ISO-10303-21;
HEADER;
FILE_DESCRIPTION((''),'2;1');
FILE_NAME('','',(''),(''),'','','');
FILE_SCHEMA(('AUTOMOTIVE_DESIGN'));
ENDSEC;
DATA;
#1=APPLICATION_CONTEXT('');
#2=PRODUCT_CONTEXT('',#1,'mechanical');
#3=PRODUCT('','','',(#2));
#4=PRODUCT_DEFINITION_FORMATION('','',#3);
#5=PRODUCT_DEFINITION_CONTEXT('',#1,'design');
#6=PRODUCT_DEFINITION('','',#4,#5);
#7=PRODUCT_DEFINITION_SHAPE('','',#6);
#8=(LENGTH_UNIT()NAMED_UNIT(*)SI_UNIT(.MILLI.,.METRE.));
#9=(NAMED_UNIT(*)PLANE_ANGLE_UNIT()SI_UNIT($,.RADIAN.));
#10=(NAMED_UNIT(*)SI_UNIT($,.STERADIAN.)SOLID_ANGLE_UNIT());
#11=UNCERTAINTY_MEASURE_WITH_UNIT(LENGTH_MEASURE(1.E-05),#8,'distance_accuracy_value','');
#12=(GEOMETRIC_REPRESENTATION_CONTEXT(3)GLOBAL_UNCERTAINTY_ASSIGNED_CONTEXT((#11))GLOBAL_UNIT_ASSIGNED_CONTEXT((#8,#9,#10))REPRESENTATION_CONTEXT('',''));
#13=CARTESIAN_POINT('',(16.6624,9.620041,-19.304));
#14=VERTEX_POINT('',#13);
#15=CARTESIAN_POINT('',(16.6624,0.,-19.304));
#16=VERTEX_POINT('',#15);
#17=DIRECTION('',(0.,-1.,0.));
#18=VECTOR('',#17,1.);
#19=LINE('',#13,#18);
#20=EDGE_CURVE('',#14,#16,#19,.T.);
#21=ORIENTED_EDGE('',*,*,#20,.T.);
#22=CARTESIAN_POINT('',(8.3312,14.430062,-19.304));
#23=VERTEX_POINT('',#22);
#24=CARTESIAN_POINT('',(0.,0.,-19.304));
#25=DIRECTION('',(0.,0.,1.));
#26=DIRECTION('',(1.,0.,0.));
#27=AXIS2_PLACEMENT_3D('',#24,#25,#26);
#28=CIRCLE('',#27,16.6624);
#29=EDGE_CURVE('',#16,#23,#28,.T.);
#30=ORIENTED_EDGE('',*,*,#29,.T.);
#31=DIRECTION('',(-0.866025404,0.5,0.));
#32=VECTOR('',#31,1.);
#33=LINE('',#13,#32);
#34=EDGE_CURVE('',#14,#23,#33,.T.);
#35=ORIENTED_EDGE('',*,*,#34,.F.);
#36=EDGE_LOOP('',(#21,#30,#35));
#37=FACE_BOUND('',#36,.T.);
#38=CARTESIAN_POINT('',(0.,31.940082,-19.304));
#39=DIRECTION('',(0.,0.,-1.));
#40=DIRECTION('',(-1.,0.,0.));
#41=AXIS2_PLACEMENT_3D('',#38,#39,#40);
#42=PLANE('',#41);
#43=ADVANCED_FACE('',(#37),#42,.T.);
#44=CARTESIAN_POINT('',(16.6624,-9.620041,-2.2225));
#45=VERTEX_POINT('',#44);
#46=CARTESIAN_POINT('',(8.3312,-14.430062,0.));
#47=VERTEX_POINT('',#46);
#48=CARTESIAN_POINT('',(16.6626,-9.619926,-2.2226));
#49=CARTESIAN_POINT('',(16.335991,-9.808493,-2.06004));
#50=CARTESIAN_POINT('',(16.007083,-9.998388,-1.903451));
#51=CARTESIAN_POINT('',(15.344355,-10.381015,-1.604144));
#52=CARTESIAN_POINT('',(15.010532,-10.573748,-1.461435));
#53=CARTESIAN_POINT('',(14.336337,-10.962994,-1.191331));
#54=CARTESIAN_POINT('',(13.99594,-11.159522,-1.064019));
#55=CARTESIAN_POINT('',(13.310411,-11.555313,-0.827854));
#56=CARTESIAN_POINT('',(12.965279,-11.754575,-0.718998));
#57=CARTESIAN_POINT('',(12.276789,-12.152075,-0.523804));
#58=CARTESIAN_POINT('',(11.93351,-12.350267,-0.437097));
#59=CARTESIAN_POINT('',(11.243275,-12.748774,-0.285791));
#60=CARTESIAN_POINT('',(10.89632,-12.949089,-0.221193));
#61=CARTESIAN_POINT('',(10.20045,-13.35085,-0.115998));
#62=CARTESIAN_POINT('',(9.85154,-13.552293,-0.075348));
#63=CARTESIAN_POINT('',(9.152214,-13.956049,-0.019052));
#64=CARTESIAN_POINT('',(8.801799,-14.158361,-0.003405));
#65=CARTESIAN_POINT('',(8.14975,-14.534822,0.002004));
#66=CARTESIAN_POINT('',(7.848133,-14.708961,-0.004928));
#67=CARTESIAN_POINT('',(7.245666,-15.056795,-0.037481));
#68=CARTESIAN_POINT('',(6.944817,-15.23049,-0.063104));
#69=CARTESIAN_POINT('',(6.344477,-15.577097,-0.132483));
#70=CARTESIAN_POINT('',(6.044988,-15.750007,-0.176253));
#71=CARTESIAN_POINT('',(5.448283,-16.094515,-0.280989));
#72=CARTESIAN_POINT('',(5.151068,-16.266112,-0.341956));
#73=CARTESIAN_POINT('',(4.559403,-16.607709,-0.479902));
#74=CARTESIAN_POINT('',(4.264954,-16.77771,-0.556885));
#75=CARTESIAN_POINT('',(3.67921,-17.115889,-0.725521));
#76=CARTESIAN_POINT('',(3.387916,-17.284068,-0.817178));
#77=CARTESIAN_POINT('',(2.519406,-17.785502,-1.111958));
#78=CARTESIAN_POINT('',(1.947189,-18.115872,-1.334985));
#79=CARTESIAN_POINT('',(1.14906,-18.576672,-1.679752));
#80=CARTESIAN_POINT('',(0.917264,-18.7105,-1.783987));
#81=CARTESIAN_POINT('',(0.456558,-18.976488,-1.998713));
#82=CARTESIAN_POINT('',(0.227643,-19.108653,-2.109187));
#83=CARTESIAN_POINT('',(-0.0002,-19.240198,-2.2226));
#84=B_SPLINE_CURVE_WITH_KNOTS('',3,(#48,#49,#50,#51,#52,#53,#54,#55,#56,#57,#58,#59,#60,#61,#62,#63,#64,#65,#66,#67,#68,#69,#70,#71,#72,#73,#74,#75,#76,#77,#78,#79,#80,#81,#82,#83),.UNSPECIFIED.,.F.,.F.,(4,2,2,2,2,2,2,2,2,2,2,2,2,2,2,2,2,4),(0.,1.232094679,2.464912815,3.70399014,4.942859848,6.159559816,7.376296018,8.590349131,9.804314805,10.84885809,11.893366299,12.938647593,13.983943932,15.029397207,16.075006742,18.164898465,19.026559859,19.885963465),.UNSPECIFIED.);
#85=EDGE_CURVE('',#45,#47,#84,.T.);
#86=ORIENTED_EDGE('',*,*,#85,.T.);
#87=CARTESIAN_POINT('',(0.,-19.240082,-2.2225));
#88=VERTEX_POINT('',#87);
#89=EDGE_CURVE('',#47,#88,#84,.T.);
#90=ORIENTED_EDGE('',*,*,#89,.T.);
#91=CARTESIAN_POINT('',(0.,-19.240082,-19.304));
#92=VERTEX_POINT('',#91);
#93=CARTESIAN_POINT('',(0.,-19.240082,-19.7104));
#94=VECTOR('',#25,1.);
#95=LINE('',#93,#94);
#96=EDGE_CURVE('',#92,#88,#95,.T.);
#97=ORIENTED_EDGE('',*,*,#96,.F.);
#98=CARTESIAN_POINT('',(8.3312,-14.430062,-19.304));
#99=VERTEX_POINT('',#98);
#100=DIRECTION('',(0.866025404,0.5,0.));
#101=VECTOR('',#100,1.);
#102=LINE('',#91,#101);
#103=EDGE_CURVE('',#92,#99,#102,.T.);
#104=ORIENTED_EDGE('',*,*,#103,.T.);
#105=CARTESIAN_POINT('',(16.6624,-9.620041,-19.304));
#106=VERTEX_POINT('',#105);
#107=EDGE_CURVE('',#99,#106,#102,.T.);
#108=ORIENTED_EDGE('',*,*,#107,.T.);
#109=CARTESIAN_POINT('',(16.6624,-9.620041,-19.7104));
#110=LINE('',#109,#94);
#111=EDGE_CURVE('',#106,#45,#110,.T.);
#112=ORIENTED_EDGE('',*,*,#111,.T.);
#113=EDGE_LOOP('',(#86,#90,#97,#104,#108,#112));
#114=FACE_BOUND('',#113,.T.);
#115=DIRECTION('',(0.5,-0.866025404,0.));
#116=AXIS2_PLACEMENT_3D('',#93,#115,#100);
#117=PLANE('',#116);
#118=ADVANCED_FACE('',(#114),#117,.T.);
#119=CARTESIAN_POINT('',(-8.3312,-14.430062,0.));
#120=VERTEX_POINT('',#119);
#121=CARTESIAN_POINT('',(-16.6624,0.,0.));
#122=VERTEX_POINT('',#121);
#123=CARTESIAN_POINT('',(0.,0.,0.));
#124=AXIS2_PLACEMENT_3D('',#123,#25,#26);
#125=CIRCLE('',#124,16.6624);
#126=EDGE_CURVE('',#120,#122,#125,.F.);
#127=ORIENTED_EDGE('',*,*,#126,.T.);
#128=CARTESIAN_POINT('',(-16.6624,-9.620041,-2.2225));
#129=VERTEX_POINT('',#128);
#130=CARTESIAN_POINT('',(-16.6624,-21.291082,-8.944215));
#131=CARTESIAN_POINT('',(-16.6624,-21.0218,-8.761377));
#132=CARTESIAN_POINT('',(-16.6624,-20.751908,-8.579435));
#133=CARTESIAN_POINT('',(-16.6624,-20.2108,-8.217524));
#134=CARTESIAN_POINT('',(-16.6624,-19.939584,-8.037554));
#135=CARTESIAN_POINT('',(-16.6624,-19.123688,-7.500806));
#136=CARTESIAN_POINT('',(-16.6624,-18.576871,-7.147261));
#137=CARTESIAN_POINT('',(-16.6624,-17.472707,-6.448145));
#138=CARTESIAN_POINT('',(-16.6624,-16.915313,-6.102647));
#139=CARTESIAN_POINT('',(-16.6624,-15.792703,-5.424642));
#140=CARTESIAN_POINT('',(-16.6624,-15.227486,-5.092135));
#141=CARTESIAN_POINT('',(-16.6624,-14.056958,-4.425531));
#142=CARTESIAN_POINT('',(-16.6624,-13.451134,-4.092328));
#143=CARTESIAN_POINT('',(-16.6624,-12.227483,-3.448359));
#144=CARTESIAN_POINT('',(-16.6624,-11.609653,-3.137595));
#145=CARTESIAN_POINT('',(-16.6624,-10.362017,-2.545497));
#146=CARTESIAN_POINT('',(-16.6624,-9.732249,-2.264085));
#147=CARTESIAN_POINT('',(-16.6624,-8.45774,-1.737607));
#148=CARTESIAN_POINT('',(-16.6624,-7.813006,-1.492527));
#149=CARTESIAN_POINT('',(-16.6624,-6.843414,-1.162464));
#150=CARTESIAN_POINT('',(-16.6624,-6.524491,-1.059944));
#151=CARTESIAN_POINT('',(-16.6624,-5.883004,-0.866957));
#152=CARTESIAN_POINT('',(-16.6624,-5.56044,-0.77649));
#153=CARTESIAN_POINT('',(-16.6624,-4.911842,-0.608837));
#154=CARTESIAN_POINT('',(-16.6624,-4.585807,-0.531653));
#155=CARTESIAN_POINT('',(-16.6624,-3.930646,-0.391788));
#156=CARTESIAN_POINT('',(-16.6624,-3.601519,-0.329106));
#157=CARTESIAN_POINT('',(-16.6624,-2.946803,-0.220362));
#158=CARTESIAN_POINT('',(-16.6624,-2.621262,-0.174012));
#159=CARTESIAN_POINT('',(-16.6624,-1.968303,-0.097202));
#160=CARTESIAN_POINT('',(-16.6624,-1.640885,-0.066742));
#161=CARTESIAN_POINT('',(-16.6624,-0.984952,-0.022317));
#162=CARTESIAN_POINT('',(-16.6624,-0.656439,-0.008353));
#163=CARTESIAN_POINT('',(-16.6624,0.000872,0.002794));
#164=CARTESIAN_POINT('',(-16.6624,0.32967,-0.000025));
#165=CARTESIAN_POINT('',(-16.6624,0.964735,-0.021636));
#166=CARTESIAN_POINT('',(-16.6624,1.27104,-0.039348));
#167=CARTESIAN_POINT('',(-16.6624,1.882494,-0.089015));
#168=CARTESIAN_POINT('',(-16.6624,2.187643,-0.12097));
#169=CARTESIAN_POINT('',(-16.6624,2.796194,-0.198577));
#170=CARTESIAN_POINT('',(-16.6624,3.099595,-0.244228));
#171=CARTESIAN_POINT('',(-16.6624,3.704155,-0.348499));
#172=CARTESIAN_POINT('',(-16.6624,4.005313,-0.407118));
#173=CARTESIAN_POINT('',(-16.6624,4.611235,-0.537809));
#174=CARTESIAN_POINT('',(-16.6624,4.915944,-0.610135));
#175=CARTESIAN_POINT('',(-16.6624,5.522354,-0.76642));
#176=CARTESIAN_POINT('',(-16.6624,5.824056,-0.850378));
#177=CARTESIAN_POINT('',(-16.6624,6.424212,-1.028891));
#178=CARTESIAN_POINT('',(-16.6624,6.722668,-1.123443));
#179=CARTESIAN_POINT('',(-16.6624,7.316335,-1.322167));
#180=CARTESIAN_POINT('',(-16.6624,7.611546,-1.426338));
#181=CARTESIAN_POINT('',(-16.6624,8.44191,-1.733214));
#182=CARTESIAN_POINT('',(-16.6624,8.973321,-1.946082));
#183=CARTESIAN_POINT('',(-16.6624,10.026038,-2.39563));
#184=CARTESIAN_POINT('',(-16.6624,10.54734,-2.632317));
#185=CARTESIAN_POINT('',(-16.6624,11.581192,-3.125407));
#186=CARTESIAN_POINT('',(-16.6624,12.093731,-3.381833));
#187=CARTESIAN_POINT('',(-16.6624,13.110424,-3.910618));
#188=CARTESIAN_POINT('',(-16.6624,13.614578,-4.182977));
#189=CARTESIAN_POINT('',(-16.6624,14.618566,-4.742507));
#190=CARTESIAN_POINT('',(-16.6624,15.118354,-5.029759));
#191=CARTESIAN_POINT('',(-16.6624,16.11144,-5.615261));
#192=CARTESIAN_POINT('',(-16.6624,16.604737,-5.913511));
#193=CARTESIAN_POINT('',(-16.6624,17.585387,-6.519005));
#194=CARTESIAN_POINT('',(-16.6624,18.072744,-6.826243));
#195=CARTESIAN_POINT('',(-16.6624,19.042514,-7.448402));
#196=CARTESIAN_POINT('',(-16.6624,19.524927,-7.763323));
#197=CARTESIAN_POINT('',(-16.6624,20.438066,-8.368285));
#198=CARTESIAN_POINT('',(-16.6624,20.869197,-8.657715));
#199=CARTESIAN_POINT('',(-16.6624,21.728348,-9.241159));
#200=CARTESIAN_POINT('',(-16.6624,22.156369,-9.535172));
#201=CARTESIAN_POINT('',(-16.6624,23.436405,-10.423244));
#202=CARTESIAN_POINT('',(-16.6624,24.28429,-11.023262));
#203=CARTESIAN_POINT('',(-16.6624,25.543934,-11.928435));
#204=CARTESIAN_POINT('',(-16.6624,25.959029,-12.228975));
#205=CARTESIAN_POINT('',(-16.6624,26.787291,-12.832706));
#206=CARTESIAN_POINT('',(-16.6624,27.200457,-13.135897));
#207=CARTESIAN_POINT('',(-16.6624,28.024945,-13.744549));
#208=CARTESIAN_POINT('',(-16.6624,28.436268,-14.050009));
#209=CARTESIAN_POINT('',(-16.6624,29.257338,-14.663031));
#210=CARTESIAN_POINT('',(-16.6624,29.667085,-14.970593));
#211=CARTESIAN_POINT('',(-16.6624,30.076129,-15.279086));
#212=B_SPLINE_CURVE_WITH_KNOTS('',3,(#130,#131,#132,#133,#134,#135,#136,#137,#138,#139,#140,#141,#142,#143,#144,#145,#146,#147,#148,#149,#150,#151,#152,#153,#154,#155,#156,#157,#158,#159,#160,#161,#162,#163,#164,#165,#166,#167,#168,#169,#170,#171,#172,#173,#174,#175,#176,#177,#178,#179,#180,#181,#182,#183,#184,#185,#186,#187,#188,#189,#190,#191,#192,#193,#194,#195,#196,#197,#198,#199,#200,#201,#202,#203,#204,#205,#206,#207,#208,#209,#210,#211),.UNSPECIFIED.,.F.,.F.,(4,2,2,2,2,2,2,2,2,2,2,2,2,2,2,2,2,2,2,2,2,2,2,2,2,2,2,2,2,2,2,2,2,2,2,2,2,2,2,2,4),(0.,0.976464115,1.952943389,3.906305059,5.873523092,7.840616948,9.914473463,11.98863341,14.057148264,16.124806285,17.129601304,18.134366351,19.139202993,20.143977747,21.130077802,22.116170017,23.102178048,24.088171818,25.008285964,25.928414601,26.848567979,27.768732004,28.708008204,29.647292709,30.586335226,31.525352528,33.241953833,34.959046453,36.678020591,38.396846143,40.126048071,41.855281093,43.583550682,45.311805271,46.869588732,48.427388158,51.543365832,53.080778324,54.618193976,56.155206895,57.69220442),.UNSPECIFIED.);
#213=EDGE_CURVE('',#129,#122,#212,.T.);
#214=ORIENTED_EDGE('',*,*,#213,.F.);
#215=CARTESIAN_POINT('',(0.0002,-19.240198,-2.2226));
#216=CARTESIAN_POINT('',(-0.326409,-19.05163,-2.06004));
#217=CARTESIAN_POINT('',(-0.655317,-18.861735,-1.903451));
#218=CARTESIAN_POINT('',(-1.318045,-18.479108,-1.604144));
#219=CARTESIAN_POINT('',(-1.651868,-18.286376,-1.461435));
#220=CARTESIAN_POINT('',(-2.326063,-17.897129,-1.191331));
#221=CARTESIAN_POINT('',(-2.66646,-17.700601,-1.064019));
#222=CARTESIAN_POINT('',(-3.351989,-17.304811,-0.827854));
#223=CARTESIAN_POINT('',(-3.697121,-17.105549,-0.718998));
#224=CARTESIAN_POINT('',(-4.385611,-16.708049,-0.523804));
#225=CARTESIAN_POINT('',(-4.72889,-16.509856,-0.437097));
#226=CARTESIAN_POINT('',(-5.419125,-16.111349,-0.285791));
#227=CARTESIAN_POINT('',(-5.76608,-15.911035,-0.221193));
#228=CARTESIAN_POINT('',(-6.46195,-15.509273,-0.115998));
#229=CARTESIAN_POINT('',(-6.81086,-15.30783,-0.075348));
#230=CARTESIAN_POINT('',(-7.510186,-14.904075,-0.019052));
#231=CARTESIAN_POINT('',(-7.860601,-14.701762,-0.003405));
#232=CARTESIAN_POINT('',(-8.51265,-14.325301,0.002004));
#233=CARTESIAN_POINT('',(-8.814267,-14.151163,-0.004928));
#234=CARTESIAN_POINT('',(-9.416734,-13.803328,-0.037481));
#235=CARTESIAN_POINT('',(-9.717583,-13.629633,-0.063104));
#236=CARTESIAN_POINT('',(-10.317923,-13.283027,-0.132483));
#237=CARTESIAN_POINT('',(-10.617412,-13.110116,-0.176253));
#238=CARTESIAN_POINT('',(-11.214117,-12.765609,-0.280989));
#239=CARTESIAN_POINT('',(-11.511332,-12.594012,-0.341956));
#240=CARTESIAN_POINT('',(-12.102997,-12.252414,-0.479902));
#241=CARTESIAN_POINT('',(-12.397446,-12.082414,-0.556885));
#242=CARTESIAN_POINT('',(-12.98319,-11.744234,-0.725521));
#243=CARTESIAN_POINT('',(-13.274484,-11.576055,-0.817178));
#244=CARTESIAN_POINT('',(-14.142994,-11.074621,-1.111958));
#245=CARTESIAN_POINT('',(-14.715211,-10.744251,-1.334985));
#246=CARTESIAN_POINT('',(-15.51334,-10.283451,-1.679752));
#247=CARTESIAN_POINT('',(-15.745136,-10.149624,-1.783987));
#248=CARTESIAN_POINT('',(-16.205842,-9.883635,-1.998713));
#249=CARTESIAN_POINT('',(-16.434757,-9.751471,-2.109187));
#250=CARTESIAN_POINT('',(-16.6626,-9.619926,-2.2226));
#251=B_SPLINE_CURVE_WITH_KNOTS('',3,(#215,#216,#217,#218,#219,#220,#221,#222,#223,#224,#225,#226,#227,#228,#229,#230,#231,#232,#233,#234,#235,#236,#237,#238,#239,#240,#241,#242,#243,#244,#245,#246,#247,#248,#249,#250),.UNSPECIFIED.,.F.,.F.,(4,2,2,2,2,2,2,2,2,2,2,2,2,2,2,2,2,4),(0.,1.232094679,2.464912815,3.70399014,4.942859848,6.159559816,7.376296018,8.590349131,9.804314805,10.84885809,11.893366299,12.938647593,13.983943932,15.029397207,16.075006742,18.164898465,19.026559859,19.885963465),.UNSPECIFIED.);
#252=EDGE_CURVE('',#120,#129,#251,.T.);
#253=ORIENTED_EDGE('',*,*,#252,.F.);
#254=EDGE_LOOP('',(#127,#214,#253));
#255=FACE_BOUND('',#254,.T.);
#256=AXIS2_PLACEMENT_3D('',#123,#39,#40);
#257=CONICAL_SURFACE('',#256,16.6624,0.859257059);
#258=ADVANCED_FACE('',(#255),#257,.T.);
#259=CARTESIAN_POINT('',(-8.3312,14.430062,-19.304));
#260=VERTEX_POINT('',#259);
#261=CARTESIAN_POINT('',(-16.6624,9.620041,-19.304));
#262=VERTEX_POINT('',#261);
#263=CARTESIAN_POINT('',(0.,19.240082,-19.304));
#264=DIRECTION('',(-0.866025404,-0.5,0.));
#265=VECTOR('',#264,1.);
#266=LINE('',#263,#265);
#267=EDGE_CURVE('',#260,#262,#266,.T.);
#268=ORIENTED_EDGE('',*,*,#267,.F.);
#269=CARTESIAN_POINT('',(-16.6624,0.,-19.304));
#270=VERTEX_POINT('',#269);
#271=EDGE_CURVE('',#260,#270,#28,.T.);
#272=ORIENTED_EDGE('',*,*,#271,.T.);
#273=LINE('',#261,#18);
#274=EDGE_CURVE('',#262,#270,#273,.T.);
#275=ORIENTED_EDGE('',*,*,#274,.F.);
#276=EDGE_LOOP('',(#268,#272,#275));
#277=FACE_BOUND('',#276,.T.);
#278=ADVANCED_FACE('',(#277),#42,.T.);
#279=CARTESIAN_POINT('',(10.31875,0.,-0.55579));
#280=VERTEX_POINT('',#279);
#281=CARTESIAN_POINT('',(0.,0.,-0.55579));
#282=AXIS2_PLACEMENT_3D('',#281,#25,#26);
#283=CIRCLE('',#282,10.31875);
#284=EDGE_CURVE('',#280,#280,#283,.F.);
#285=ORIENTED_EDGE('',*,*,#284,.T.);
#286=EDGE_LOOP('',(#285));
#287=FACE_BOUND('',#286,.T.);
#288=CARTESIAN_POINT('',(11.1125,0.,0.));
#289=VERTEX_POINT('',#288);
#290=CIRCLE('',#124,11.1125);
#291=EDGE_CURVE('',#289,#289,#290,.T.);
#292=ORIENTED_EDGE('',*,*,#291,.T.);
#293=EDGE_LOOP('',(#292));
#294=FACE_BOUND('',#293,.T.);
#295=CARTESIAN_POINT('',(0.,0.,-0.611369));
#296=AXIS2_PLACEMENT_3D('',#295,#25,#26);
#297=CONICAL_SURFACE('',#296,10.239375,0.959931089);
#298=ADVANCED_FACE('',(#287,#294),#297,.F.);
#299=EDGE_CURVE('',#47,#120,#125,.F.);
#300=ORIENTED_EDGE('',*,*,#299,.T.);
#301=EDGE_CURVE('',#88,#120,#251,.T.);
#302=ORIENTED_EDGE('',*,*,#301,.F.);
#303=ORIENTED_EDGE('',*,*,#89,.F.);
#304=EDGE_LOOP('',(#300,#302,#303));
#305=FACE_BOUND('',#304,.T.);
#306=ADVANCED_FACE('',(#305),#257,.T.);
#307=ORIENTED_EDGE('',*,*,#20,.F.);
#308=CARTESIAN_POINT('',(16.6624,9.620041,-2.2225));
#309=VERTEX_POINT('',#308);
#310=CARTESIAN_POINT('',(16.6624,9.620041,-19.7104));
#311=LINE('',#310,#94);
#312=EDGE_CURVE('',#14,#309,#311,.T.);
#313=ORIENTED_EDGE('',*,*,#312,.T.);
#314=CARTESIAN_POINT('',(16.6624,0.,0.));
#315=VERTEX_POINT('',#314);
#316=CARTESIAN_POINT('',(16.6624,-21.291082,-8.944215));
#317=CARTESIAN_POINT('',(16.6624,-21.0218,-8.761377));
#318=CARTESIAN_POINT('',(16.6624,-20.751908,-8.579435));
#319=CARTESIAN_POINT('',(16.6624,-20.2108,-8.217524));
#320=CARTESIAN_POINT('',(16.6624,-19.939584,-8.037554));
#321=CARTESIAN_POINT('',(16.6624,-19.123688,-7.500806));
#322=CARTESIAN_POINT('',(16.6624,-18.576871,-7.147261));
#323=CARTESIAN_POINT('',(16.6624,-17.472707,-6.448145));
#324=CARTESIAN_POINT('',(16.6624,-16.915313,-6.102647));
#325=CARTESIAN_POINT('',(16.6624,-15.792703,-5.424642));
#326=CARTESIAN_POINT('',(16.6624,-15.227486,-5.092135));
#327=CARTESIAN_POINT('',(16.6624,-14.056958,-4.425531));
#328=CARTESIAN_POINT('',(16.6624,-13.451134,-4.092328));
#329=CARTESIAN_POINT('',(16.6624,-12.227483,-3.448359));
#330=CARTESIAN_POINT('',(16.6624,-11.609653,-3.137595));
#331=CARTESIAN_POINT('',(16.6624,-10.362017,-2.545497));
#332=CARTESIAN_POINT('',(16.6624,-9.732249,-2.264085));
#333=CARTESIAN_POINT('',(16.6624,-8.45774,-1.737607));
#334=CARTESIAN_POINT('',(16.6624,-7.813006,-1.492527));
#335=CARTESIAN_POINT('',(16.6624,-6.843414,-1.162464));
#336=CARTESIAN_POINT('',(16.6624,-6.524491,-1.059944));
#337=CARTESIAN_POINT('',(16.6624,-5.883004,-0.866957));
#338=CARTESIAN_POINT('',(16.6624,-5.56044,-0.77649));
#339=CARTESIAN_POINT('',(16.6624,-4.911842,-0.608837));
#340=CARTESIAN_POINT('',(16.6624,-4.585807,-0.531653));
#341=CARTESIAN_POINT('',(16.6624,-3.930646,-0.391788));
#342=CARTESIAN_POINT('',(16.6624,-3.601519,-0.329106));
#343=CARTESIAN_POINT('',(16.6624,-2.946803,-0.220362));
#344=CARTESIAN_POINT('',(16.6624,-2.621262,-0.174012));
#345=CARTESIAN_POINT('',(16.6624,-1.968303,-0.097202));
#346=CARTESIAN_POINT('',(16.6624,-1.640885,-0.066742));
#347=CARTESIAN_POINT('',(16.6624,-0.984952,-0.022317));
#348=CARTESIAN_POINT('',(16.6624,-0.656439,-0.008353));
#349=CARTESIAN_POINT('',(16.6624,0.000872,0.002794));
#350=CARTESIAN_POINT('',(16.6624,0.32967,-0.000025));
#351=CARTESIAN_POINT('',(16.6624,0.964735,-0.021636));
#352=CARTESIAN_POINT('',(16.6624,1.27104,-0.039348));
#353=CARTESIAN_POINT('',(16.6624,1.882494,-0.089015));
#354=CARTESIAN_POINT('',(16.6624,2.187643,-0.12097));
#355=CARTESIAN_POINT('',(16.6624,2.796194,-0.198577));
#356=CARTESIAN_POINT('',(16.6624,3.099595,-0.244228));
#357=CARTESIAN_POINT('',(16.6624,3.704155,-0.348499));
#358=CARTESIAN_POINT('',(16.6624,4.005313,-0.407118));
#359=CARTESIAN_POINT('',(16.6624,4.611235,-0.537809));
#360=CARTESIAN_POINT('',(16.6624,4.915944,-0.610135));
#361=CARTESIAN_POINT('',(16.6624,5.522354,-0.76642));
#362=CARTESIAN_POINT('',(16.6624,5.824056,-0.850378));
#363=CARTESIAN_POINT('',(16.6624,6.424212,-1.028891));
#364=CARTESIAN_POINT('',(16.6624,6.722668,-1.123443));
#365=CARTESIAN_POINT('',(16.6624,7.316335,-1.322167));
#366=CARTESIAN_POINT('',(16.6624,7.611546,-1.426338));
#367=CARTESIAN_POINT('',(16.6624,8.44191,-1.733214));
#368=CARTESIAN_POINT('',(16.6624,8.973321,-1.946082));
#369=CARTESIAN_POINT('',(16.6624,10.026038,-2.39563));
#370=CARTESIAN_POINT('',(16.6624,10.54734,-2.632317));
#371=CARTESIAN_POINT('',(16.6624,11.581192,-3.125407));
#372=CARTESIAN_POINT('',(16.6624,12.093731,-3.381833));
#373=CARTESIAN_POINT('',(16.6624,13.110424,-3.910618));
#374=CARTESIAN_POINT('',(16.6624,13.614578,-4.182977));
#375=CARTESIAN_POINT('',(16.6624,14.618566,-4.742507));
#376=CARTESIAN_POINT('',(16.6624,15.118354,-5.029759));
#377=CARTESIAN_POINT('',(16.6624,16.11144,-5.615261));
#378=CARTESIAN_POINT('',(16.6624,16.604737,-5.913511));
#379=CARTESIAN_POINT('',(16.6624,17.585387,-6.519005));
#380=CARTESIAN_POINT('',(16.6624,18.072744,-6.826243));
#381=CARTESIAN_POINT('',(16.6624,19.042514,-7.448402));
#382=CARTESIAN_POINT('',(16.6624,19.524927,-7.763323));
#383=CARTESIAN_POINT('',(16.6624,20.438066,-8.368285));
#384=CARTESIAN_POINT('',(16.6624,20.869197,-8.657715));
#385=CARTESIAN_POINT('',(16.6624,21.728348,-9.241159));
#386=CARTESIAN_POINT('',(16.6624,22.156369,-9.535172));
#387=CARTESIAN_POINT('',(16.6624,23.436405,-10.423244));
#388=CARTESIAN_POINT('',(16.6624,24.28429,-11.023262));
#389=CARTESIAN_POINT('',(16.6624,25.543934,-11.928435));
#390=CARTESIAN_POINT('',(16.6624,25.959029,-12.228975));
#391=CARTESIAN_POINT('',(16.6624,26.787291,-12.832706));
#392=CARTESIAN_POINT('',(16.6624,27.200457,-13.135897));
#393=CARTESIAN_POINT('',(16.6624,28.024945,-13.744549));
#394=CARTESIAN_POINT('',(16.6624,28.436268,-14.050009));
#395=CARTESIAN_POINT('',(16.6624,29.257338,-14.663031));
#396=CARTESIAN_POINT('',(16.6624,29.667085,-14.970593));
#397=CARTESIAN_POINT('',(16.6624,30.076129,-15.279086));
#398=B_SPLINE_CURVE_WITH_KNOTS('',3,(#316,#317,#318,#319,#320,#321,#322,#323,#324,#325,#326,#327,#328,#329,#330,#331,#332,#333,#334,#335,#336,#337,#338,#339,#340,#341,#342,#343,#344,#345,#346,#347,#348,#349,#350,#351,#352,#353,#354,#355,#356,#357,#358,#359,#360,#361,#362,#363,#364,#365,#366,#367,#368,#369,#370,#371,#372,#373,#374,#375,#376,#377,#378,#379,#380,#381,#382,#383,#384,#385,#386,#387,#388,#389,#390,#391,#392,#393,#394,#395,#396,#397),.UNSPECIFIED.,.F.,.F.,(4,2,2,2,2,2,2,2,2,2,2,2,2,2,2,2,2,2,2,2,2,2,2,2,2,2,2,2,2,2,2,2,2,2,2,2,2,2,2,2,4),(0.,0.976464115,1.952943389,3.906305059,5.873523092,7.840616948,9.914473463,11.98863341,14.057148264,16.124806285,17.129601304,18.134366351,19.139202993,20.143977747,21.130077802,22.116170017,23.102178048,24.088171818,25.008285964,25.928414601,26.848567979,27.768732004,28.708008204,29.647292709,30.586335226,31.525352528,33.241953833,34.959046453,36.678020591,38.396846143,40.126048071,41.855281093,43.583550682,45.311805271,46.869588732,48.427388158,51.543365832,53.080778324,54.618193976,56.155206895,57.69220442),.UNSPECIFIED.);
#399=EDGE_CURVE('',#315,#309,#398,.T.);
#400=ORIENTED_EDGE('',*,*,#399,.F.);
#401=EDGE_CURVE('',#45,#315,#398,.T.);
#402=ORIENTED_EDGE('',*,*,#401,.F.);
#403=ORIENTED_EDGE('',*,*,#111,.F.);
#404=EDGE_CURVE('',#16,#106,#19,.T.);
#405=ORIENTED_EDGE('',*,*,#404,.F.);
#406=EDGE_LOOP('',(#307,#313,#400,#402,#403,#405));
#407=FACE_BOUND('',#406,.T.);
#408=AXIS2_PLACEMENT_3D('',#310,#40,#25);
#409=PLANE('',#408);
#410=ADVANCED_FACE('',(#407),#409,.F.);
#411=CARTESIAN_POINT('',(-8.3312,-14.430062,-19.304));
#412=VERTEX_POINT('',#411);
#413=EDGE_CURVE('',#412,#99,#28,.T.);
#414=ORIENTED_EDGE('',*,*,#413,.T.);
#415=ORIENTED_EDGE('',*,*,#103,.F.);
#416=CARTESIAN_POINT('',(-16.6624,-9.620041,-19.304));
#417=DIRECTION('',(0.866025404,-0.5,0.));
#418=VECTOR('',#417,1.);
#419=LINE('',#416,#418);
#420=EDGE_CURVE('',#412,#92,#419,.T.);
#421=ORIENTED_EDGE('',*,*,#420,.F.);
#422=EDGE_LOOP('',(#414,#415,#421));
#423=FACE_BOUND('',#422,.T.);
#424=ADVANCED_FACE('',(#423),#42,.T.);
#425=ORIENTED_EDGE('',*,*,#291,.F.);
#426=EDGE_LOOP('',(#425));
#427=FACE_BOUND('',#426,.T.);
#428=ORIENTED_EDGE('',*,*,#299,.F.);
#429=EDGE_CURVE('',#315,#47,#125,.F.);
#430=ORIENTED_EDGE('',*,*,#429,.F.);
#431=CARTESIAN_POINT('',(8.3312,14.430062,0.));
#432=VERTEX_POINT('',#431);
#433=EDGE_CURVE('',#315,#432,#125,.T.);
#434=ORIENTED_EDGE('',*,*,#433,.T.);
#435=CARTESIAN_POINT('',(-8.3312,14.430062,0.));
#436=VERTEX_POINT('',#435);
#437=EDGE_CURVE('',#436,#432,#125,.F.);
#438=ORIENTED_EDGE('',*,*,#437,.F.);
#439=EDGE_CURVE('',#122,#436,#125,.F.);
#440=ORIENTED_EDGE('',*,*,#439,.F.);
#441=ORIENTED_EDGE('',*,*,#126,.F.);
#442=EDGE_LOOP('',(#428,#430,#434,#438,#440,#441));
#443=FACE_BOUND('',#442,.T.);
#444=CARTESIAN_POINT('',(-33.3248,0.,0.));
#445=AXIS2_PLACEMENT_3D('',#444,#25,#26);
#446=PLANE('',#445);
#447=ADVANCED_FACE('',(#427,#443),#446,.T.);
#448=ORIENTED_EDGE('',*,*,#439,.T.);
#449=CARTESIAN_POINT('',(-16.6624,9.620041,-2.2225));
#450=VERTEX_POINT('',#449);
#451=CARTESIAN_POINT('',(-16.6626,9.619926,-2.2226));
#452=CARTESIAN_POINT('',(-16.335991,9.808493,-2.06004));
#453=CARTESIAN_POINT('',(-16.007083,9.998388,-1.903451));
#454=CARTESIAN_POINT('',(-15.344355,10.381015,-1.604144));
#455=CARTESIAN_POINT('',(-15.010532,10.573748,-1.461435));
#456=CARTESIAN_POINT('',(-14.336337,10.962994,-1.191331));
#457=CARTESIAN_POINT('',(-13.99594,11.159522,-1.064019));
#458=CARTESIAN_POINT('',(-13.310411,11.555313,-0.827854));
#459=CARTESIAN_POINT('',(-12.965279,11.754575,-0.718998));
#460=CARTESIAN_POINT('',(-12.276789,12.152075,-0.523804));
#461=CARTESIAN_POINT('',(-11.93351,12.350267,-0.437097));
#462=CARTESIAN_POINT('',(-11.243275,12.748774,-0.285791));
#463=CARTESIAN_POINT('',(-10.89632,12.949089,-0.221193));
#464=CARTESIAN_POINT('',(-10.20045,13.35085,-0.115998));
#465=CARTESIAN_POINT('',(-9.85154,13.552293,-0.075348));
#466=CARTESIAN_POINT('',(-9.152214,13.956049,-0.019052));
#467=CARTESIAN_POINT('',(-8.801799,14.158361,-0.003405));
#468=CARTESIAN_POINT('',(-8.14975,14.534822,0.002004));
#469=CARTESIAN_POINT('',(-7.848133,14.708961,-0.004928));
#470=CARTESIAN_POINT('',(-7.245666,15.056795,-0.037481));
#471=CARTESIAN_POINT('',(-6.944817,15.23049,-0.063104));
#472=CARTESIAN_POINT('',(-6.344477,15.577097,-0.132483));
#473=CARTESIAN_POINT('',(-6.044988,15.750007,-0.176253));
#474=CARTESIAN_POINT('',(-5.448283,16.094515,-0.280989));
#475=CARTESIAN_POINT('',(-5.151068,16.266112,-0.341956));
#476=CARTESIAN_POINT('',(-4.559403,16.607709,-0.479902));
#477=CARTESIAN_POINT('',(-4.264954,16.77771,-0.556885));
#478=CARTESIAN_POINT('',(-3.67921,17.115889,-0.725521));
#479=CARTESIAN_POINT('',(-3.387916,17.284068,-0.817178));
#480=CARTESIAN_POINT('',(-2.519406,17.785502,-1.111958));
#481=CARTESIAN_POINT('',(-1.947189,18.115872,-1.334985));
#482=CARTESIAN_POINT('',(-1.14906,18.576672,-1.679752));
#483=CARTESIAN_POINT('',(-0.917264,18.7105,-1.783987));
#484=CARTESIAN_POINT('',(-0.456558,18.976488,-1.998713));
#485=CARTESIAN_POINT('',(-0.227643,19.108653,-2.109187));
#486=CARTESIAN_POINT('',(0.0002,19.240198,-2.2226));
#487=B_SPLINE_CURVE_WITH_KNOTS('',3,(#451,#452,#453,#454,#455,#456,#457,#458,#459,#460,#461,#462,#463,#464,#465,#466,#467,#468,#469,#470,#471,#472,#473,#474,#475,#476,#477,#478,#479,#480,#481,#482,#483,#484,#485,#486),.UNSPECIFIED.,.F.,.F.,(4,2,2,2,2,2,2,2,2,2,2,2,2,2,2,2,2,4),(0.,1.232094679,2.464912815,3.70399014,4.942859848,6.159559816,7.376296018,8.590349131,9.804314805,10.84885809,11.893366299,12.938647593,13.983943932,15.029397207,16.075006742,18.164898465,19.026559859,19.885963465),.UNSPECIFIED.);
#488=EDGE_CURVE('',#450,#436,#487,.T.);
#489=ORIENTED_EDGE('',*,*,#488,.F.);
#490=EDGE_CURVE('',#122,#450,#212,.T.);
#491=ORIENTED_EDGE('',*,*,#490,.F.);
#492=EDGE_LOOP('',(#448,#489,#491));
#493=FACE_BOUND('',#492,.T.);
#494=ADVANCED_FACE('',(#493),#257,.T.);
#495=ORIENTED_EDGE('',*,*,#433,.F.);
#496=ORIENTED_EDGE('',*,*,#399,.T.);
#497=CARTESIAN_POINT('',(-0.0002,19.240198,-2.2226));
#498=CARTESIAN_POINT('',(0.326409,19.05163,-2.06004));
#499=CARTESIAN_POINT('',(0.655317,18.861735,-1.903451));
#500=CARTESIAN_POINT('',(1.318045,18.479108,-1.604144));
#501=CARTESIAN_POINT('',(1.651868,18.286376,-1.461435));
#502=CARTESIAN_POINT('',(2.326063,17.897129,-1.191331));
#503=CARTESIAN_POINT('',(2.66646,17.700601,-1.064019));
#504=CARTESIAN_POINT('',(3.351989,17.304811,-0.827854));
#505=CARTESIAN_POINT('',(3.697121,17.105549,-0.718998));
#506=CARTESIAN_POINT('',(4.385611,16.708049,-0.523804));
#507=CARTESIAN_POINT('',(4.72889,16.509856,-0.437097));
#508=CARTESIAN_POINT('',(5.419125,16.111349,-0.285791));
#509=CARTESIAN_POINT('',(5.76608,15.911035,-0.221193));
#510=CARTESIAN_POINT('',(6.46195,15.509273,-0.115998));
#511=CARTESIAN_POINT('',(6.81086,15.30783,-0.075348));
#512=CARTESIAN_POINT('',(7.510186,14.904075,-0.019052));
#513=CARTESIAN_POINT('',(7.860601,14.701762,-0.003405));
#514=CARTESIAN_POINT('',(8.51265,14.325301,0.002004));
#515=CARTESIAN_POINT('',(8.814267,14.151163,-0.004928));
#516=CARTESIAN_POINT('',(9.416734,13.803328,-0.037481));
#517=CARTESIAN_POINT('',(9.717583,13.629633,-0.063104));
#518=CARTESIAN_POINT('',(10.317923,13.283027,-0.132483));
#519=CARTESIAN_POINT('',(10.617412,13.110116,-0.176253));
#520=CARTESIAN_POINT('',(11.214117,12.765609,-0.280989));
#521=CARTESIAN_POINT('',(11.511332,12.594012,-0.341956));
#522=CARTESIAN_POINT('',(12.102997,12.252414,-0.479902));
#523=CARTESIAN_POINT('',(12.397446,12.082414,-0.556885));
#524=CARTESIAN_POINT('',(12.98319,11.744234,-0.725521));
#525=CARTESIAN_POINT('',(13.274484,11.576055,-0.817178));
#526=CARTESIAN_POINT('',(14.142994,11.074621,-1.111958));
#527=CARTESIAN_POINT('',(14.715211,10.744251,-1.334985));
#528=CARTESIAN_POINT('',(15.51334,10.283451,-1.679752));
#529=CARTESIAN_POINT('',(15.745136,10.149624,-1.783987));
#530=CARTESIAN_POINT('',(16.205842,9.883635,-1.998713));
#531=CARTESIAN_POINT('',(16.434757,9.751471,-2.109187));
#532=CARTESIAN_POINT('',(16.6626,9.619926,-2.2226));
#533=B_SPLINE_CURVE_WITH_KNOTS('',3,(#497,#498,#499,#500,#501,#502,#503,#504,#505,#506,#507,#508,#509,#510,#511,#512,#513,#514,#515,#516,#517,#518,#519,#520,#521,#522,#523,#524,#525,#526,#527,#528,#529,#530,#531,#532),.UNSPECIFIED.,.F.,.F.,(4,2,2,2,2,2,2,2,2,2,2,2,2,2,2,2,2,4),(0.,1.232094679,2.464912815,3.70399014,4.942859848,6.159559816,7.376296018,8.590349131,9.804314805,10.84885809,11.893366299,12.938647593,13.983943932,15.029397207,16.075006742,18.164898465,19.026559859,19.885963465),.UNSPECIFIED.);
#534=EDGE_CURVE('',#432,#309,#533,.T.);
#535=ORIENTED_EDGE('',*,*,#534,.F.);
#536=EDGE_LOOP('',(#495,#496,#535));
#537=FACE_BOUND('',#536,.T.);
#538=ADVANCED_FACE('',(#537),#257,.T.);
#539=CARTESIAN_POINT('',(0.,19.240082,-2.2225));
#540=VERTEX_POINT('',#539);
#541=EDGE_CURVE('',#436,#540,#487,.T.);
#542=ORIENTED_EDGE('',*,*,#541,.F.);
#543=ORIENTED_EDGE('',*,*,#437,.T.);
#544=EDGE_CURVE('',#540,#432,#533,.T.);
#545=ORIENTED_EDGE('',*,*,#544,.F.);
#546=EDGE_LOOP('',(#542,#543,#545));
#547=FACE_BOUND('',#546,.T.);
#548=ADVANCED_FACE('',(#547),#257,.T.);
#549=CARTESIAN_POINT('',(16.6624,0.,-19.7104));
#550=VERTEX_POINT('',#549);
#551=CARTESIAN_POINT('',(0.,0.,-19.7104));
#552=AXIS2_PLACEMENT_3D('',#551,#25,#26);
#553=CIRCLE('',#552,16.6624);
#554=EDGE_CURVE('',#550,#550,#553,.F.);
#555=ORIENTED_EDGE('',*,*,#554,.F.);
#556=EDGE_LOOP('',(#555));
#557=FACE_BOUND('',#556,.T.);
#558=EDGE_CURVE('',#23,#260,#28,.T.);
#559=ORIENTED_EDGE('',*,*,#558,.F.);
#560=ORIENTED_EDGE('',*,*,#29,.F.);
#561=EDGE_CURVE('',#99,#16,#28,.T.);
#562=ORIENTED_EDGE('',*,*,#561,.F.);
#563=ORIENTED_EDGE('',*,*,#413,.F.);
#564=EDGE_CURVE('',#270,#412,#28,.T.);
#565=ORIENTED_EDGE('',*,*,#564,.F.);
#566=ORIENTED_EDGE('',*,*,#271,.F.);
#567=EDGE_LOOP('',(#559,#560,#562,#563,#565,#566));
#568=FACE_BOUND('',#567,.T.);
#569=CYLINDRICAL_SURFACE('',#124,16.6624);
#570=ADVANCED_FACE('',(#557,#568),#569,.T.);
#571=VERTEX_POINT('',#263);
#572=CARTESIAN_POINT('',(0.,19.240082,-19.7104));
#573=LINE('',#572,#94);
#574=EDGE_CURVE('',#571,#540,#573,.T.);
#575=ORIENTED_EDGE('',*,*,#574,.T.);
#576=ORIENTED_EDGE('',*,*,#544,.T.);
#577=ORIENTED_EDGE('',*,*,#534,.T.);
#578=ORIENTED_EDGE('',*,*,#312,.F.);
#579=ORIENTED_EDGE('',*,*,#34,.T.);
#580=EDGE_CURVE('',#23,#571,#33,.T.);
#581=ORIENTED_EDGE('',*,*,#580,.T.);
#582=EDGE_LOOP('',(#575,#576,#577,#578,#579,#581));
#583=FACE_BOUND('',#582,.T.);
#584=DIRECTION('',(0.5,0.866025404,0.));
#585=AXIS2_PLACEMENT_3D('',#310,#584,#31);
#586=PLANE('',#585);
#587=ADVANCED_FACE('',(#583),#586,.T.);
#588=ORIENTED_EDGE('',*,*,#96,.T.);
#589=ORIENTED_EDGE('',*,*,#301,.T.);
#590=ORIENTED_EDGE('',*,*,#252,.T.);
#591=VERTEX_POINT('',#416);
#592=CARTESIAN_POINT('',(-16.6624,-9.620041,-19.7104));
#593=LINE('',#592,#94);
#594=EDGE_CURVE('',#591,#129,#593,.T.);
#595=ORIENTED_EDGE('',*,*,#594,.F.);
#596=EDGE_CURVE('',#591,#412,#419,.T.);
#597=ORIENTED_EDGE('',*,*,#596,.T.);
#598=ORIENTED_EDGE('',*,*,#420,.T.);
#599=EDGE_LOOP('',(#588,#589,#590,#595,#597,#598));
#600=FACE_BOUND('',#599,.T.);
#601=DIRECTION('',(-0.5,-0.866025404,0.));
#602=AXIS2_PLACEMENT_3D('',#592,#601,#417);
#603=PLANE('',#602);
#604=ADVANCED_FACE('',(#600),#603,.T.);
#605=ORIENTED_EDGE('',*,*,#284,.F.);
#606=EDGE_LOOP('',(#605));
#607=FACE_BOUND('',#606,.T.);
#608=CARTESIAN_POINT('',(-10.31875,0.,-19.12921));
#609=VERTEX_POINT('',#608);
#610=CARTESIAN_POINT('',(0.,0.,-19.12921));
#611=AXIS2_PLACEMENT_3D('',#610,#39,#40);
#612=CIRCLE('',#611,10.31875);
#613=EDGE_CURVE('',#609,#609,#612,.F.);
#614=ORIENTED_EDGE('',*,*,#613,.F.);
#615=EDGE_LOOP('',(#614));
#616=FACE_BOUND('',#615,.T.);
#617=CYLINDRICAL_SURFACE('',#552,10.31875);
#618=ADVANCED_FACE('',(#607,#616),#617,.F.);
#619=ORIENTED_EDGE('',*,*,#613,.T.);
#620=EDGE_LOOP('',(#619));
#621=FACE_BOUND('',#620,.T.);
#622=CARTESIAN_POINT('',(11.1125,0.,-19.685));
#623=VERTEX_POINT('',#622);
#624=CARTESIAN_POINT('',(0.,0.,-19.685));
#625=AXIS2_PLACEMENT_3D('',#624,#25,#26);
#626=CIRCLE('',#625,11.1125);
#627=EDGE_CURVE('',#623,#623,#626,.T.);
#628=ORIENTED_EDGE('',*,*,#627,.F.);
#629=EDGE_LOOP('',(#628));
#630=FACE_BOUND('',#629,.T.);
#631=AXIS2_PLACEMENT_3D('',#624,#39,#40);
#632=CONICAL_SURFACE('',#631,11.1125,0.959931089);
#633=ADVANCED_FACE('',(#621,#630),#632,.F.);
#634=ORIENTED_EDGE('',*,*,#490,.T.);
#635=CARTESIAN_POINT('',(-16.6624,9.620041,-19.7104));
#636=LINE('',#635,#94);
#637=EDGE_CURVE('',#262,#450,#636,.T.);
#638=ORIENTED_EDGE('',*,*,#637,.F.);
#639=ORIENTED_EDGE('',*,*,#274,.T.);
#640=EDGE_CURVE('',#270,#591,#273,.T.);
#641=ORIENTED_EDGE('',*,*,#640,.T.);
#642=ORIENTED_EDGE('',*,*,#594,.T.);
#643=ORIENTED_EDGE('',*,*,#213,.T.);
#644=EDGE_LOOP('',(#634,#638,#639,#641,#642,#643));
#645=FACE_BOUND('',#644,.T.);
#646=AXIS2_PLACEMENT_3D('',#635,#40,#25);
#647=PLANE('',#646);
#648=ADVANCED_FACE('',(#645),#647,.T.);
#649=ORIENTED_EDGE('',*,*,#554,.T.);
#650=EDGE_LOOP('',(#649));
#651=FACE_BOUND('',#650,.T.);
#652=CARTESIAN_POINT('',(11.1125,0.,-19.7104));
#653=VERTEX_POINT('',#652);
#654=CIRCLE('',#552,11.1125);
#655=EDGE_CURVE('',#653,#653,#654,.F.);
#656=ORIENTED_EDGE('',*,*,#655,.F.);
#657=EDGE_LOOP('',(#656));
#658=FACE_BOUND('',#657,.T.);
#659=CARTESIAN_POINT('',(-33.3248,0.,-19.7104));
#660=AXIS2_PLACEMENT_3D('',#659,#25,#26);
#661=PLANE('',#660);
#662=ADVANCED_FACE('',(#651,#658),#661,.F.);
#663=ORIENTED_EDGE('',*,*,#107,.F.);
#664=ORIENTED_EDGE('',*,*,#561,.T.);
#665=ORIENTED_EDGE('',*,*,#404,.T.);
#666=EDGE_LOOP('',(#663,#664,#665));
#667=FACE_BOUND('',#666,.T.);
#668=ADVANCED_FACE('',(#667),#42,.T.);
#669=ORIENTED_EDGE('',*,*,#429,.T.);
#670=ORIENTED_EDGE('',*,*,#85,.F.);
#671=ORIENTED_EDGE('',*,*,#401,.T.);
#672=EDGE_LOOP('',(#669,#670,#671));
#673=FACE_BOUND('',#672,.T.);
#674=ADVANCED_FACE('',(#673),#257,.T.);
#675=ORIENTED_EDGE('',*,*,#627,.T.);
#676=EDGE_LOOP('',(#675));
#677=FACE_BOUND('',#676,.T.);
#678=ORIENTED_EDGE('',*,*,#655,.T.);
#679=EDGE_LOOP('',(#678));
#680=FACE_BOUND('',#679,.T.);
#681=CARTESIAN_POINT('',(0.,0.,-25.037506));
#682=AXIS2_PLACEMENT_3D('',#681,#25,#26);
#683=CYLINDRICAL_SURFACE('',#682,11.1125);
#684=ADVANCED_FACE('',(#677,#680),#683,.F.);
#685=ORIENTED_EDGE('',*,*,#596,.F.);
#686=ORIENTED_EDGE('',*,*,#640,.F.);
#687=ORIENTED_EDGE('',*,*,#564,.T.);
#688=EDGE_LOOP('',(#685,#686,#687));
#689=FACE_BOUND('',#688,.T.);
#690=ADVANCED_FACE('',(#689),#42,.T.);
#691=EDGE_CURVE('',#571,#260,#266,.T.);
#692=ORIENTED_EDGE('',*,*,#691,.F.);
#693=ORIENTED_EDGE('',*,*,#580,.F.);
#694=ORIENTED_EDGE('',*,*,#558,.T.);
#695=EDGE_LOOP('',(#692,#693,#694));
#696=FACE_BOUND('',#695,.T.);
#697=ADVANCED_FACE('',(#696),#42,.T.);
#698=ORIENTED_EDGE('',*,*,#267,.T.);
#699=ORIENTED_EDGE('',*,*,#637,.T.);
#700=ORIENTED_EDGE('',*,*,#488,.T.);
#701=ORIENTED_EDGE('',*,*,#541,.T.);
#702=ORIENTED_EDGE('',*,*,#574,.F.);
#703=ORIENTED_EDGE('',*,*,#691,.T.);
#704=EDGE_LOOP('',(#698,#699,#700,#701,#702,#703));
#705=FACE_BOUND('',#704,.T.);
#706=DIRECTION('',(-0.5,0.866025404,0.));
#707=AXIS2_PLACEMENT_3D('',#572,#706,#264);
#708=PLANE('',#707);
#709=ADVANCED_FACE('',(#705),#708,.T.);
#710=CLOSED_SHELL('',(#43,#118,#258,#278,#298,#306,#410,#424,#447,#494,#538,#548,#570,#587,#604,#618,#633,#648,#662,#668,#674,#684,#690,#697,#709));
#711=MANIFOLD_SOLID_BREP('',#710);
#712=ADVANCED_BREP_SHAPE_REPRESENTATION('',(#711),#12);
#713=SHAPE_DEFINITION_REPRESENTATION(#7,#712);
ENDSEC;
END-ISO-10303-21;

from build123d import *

# Parameters (mm, degrees)
BASENUTSKE_R  = 10.31875
BASENUT_DEPTH = 19.7104
SKETCH4_W     = 0.4064
SKETCH4_H     = 15.277682251


with BuildPart() as part:
    # BaseNutSke → BaseNut (new body)
    with BuildSketch(Plane.XY):
        Polygon((16.6624, 9.620041125), (16.6624, -9.620041125), (0, -19.240082251), (-16.6624, -9.620041125), (-16.6624, 9.620041125), (0, 19.240082251), align=None)
        Circle(BASENUTSKE_R, mode=Mode.SUBTRACT)
    extrude(amount=-BASENUT_DEPTH)

    # Sketch4 → Bearing-Face (revolve, cut)
    with BuildSketch(Plane(origin=(0, 0, 0), x_dir=(0, 0, -1), z_dir=(1, 0, 0))):
        with Locations((19.5072, 24.301241126)):
            Rectangle(SKETCH4_W, SKETCH4_H)
        Polygon((0, 16.6624), (-12.7, 16.6624), (-12.7, 31.940082251), (2.2225, 31.940082251), (2.2225, 19.240082251), align=None)
    revolve(axis=Axis((0, 0, 0), (0, 0, -1)), mode=Mode.SUBTRACT)

    # Sketch5 → EndChamfer (revolve, cut)
    with BuildSketch(Plane(origin=(0, 0, 0), x_dir=(0, 0, -1), z_dir=(1, 0, 0))):
        Polygon((19.685, 11.1125), (19.073631293, 10.239375), (19.7358, 10.239375), (19.7358, 11.1125), align=None)
        Polygon((-0.0508, 11.1125), (0, 11.1125), (0.611368707, 10.239375), (-0.0508, 10.239375), align=None)
    revolve(axis=Axis((0, 0, -25.037505729), (0, 0, -1)), mode=Mode.SUBTRACT)


solid = part.part
